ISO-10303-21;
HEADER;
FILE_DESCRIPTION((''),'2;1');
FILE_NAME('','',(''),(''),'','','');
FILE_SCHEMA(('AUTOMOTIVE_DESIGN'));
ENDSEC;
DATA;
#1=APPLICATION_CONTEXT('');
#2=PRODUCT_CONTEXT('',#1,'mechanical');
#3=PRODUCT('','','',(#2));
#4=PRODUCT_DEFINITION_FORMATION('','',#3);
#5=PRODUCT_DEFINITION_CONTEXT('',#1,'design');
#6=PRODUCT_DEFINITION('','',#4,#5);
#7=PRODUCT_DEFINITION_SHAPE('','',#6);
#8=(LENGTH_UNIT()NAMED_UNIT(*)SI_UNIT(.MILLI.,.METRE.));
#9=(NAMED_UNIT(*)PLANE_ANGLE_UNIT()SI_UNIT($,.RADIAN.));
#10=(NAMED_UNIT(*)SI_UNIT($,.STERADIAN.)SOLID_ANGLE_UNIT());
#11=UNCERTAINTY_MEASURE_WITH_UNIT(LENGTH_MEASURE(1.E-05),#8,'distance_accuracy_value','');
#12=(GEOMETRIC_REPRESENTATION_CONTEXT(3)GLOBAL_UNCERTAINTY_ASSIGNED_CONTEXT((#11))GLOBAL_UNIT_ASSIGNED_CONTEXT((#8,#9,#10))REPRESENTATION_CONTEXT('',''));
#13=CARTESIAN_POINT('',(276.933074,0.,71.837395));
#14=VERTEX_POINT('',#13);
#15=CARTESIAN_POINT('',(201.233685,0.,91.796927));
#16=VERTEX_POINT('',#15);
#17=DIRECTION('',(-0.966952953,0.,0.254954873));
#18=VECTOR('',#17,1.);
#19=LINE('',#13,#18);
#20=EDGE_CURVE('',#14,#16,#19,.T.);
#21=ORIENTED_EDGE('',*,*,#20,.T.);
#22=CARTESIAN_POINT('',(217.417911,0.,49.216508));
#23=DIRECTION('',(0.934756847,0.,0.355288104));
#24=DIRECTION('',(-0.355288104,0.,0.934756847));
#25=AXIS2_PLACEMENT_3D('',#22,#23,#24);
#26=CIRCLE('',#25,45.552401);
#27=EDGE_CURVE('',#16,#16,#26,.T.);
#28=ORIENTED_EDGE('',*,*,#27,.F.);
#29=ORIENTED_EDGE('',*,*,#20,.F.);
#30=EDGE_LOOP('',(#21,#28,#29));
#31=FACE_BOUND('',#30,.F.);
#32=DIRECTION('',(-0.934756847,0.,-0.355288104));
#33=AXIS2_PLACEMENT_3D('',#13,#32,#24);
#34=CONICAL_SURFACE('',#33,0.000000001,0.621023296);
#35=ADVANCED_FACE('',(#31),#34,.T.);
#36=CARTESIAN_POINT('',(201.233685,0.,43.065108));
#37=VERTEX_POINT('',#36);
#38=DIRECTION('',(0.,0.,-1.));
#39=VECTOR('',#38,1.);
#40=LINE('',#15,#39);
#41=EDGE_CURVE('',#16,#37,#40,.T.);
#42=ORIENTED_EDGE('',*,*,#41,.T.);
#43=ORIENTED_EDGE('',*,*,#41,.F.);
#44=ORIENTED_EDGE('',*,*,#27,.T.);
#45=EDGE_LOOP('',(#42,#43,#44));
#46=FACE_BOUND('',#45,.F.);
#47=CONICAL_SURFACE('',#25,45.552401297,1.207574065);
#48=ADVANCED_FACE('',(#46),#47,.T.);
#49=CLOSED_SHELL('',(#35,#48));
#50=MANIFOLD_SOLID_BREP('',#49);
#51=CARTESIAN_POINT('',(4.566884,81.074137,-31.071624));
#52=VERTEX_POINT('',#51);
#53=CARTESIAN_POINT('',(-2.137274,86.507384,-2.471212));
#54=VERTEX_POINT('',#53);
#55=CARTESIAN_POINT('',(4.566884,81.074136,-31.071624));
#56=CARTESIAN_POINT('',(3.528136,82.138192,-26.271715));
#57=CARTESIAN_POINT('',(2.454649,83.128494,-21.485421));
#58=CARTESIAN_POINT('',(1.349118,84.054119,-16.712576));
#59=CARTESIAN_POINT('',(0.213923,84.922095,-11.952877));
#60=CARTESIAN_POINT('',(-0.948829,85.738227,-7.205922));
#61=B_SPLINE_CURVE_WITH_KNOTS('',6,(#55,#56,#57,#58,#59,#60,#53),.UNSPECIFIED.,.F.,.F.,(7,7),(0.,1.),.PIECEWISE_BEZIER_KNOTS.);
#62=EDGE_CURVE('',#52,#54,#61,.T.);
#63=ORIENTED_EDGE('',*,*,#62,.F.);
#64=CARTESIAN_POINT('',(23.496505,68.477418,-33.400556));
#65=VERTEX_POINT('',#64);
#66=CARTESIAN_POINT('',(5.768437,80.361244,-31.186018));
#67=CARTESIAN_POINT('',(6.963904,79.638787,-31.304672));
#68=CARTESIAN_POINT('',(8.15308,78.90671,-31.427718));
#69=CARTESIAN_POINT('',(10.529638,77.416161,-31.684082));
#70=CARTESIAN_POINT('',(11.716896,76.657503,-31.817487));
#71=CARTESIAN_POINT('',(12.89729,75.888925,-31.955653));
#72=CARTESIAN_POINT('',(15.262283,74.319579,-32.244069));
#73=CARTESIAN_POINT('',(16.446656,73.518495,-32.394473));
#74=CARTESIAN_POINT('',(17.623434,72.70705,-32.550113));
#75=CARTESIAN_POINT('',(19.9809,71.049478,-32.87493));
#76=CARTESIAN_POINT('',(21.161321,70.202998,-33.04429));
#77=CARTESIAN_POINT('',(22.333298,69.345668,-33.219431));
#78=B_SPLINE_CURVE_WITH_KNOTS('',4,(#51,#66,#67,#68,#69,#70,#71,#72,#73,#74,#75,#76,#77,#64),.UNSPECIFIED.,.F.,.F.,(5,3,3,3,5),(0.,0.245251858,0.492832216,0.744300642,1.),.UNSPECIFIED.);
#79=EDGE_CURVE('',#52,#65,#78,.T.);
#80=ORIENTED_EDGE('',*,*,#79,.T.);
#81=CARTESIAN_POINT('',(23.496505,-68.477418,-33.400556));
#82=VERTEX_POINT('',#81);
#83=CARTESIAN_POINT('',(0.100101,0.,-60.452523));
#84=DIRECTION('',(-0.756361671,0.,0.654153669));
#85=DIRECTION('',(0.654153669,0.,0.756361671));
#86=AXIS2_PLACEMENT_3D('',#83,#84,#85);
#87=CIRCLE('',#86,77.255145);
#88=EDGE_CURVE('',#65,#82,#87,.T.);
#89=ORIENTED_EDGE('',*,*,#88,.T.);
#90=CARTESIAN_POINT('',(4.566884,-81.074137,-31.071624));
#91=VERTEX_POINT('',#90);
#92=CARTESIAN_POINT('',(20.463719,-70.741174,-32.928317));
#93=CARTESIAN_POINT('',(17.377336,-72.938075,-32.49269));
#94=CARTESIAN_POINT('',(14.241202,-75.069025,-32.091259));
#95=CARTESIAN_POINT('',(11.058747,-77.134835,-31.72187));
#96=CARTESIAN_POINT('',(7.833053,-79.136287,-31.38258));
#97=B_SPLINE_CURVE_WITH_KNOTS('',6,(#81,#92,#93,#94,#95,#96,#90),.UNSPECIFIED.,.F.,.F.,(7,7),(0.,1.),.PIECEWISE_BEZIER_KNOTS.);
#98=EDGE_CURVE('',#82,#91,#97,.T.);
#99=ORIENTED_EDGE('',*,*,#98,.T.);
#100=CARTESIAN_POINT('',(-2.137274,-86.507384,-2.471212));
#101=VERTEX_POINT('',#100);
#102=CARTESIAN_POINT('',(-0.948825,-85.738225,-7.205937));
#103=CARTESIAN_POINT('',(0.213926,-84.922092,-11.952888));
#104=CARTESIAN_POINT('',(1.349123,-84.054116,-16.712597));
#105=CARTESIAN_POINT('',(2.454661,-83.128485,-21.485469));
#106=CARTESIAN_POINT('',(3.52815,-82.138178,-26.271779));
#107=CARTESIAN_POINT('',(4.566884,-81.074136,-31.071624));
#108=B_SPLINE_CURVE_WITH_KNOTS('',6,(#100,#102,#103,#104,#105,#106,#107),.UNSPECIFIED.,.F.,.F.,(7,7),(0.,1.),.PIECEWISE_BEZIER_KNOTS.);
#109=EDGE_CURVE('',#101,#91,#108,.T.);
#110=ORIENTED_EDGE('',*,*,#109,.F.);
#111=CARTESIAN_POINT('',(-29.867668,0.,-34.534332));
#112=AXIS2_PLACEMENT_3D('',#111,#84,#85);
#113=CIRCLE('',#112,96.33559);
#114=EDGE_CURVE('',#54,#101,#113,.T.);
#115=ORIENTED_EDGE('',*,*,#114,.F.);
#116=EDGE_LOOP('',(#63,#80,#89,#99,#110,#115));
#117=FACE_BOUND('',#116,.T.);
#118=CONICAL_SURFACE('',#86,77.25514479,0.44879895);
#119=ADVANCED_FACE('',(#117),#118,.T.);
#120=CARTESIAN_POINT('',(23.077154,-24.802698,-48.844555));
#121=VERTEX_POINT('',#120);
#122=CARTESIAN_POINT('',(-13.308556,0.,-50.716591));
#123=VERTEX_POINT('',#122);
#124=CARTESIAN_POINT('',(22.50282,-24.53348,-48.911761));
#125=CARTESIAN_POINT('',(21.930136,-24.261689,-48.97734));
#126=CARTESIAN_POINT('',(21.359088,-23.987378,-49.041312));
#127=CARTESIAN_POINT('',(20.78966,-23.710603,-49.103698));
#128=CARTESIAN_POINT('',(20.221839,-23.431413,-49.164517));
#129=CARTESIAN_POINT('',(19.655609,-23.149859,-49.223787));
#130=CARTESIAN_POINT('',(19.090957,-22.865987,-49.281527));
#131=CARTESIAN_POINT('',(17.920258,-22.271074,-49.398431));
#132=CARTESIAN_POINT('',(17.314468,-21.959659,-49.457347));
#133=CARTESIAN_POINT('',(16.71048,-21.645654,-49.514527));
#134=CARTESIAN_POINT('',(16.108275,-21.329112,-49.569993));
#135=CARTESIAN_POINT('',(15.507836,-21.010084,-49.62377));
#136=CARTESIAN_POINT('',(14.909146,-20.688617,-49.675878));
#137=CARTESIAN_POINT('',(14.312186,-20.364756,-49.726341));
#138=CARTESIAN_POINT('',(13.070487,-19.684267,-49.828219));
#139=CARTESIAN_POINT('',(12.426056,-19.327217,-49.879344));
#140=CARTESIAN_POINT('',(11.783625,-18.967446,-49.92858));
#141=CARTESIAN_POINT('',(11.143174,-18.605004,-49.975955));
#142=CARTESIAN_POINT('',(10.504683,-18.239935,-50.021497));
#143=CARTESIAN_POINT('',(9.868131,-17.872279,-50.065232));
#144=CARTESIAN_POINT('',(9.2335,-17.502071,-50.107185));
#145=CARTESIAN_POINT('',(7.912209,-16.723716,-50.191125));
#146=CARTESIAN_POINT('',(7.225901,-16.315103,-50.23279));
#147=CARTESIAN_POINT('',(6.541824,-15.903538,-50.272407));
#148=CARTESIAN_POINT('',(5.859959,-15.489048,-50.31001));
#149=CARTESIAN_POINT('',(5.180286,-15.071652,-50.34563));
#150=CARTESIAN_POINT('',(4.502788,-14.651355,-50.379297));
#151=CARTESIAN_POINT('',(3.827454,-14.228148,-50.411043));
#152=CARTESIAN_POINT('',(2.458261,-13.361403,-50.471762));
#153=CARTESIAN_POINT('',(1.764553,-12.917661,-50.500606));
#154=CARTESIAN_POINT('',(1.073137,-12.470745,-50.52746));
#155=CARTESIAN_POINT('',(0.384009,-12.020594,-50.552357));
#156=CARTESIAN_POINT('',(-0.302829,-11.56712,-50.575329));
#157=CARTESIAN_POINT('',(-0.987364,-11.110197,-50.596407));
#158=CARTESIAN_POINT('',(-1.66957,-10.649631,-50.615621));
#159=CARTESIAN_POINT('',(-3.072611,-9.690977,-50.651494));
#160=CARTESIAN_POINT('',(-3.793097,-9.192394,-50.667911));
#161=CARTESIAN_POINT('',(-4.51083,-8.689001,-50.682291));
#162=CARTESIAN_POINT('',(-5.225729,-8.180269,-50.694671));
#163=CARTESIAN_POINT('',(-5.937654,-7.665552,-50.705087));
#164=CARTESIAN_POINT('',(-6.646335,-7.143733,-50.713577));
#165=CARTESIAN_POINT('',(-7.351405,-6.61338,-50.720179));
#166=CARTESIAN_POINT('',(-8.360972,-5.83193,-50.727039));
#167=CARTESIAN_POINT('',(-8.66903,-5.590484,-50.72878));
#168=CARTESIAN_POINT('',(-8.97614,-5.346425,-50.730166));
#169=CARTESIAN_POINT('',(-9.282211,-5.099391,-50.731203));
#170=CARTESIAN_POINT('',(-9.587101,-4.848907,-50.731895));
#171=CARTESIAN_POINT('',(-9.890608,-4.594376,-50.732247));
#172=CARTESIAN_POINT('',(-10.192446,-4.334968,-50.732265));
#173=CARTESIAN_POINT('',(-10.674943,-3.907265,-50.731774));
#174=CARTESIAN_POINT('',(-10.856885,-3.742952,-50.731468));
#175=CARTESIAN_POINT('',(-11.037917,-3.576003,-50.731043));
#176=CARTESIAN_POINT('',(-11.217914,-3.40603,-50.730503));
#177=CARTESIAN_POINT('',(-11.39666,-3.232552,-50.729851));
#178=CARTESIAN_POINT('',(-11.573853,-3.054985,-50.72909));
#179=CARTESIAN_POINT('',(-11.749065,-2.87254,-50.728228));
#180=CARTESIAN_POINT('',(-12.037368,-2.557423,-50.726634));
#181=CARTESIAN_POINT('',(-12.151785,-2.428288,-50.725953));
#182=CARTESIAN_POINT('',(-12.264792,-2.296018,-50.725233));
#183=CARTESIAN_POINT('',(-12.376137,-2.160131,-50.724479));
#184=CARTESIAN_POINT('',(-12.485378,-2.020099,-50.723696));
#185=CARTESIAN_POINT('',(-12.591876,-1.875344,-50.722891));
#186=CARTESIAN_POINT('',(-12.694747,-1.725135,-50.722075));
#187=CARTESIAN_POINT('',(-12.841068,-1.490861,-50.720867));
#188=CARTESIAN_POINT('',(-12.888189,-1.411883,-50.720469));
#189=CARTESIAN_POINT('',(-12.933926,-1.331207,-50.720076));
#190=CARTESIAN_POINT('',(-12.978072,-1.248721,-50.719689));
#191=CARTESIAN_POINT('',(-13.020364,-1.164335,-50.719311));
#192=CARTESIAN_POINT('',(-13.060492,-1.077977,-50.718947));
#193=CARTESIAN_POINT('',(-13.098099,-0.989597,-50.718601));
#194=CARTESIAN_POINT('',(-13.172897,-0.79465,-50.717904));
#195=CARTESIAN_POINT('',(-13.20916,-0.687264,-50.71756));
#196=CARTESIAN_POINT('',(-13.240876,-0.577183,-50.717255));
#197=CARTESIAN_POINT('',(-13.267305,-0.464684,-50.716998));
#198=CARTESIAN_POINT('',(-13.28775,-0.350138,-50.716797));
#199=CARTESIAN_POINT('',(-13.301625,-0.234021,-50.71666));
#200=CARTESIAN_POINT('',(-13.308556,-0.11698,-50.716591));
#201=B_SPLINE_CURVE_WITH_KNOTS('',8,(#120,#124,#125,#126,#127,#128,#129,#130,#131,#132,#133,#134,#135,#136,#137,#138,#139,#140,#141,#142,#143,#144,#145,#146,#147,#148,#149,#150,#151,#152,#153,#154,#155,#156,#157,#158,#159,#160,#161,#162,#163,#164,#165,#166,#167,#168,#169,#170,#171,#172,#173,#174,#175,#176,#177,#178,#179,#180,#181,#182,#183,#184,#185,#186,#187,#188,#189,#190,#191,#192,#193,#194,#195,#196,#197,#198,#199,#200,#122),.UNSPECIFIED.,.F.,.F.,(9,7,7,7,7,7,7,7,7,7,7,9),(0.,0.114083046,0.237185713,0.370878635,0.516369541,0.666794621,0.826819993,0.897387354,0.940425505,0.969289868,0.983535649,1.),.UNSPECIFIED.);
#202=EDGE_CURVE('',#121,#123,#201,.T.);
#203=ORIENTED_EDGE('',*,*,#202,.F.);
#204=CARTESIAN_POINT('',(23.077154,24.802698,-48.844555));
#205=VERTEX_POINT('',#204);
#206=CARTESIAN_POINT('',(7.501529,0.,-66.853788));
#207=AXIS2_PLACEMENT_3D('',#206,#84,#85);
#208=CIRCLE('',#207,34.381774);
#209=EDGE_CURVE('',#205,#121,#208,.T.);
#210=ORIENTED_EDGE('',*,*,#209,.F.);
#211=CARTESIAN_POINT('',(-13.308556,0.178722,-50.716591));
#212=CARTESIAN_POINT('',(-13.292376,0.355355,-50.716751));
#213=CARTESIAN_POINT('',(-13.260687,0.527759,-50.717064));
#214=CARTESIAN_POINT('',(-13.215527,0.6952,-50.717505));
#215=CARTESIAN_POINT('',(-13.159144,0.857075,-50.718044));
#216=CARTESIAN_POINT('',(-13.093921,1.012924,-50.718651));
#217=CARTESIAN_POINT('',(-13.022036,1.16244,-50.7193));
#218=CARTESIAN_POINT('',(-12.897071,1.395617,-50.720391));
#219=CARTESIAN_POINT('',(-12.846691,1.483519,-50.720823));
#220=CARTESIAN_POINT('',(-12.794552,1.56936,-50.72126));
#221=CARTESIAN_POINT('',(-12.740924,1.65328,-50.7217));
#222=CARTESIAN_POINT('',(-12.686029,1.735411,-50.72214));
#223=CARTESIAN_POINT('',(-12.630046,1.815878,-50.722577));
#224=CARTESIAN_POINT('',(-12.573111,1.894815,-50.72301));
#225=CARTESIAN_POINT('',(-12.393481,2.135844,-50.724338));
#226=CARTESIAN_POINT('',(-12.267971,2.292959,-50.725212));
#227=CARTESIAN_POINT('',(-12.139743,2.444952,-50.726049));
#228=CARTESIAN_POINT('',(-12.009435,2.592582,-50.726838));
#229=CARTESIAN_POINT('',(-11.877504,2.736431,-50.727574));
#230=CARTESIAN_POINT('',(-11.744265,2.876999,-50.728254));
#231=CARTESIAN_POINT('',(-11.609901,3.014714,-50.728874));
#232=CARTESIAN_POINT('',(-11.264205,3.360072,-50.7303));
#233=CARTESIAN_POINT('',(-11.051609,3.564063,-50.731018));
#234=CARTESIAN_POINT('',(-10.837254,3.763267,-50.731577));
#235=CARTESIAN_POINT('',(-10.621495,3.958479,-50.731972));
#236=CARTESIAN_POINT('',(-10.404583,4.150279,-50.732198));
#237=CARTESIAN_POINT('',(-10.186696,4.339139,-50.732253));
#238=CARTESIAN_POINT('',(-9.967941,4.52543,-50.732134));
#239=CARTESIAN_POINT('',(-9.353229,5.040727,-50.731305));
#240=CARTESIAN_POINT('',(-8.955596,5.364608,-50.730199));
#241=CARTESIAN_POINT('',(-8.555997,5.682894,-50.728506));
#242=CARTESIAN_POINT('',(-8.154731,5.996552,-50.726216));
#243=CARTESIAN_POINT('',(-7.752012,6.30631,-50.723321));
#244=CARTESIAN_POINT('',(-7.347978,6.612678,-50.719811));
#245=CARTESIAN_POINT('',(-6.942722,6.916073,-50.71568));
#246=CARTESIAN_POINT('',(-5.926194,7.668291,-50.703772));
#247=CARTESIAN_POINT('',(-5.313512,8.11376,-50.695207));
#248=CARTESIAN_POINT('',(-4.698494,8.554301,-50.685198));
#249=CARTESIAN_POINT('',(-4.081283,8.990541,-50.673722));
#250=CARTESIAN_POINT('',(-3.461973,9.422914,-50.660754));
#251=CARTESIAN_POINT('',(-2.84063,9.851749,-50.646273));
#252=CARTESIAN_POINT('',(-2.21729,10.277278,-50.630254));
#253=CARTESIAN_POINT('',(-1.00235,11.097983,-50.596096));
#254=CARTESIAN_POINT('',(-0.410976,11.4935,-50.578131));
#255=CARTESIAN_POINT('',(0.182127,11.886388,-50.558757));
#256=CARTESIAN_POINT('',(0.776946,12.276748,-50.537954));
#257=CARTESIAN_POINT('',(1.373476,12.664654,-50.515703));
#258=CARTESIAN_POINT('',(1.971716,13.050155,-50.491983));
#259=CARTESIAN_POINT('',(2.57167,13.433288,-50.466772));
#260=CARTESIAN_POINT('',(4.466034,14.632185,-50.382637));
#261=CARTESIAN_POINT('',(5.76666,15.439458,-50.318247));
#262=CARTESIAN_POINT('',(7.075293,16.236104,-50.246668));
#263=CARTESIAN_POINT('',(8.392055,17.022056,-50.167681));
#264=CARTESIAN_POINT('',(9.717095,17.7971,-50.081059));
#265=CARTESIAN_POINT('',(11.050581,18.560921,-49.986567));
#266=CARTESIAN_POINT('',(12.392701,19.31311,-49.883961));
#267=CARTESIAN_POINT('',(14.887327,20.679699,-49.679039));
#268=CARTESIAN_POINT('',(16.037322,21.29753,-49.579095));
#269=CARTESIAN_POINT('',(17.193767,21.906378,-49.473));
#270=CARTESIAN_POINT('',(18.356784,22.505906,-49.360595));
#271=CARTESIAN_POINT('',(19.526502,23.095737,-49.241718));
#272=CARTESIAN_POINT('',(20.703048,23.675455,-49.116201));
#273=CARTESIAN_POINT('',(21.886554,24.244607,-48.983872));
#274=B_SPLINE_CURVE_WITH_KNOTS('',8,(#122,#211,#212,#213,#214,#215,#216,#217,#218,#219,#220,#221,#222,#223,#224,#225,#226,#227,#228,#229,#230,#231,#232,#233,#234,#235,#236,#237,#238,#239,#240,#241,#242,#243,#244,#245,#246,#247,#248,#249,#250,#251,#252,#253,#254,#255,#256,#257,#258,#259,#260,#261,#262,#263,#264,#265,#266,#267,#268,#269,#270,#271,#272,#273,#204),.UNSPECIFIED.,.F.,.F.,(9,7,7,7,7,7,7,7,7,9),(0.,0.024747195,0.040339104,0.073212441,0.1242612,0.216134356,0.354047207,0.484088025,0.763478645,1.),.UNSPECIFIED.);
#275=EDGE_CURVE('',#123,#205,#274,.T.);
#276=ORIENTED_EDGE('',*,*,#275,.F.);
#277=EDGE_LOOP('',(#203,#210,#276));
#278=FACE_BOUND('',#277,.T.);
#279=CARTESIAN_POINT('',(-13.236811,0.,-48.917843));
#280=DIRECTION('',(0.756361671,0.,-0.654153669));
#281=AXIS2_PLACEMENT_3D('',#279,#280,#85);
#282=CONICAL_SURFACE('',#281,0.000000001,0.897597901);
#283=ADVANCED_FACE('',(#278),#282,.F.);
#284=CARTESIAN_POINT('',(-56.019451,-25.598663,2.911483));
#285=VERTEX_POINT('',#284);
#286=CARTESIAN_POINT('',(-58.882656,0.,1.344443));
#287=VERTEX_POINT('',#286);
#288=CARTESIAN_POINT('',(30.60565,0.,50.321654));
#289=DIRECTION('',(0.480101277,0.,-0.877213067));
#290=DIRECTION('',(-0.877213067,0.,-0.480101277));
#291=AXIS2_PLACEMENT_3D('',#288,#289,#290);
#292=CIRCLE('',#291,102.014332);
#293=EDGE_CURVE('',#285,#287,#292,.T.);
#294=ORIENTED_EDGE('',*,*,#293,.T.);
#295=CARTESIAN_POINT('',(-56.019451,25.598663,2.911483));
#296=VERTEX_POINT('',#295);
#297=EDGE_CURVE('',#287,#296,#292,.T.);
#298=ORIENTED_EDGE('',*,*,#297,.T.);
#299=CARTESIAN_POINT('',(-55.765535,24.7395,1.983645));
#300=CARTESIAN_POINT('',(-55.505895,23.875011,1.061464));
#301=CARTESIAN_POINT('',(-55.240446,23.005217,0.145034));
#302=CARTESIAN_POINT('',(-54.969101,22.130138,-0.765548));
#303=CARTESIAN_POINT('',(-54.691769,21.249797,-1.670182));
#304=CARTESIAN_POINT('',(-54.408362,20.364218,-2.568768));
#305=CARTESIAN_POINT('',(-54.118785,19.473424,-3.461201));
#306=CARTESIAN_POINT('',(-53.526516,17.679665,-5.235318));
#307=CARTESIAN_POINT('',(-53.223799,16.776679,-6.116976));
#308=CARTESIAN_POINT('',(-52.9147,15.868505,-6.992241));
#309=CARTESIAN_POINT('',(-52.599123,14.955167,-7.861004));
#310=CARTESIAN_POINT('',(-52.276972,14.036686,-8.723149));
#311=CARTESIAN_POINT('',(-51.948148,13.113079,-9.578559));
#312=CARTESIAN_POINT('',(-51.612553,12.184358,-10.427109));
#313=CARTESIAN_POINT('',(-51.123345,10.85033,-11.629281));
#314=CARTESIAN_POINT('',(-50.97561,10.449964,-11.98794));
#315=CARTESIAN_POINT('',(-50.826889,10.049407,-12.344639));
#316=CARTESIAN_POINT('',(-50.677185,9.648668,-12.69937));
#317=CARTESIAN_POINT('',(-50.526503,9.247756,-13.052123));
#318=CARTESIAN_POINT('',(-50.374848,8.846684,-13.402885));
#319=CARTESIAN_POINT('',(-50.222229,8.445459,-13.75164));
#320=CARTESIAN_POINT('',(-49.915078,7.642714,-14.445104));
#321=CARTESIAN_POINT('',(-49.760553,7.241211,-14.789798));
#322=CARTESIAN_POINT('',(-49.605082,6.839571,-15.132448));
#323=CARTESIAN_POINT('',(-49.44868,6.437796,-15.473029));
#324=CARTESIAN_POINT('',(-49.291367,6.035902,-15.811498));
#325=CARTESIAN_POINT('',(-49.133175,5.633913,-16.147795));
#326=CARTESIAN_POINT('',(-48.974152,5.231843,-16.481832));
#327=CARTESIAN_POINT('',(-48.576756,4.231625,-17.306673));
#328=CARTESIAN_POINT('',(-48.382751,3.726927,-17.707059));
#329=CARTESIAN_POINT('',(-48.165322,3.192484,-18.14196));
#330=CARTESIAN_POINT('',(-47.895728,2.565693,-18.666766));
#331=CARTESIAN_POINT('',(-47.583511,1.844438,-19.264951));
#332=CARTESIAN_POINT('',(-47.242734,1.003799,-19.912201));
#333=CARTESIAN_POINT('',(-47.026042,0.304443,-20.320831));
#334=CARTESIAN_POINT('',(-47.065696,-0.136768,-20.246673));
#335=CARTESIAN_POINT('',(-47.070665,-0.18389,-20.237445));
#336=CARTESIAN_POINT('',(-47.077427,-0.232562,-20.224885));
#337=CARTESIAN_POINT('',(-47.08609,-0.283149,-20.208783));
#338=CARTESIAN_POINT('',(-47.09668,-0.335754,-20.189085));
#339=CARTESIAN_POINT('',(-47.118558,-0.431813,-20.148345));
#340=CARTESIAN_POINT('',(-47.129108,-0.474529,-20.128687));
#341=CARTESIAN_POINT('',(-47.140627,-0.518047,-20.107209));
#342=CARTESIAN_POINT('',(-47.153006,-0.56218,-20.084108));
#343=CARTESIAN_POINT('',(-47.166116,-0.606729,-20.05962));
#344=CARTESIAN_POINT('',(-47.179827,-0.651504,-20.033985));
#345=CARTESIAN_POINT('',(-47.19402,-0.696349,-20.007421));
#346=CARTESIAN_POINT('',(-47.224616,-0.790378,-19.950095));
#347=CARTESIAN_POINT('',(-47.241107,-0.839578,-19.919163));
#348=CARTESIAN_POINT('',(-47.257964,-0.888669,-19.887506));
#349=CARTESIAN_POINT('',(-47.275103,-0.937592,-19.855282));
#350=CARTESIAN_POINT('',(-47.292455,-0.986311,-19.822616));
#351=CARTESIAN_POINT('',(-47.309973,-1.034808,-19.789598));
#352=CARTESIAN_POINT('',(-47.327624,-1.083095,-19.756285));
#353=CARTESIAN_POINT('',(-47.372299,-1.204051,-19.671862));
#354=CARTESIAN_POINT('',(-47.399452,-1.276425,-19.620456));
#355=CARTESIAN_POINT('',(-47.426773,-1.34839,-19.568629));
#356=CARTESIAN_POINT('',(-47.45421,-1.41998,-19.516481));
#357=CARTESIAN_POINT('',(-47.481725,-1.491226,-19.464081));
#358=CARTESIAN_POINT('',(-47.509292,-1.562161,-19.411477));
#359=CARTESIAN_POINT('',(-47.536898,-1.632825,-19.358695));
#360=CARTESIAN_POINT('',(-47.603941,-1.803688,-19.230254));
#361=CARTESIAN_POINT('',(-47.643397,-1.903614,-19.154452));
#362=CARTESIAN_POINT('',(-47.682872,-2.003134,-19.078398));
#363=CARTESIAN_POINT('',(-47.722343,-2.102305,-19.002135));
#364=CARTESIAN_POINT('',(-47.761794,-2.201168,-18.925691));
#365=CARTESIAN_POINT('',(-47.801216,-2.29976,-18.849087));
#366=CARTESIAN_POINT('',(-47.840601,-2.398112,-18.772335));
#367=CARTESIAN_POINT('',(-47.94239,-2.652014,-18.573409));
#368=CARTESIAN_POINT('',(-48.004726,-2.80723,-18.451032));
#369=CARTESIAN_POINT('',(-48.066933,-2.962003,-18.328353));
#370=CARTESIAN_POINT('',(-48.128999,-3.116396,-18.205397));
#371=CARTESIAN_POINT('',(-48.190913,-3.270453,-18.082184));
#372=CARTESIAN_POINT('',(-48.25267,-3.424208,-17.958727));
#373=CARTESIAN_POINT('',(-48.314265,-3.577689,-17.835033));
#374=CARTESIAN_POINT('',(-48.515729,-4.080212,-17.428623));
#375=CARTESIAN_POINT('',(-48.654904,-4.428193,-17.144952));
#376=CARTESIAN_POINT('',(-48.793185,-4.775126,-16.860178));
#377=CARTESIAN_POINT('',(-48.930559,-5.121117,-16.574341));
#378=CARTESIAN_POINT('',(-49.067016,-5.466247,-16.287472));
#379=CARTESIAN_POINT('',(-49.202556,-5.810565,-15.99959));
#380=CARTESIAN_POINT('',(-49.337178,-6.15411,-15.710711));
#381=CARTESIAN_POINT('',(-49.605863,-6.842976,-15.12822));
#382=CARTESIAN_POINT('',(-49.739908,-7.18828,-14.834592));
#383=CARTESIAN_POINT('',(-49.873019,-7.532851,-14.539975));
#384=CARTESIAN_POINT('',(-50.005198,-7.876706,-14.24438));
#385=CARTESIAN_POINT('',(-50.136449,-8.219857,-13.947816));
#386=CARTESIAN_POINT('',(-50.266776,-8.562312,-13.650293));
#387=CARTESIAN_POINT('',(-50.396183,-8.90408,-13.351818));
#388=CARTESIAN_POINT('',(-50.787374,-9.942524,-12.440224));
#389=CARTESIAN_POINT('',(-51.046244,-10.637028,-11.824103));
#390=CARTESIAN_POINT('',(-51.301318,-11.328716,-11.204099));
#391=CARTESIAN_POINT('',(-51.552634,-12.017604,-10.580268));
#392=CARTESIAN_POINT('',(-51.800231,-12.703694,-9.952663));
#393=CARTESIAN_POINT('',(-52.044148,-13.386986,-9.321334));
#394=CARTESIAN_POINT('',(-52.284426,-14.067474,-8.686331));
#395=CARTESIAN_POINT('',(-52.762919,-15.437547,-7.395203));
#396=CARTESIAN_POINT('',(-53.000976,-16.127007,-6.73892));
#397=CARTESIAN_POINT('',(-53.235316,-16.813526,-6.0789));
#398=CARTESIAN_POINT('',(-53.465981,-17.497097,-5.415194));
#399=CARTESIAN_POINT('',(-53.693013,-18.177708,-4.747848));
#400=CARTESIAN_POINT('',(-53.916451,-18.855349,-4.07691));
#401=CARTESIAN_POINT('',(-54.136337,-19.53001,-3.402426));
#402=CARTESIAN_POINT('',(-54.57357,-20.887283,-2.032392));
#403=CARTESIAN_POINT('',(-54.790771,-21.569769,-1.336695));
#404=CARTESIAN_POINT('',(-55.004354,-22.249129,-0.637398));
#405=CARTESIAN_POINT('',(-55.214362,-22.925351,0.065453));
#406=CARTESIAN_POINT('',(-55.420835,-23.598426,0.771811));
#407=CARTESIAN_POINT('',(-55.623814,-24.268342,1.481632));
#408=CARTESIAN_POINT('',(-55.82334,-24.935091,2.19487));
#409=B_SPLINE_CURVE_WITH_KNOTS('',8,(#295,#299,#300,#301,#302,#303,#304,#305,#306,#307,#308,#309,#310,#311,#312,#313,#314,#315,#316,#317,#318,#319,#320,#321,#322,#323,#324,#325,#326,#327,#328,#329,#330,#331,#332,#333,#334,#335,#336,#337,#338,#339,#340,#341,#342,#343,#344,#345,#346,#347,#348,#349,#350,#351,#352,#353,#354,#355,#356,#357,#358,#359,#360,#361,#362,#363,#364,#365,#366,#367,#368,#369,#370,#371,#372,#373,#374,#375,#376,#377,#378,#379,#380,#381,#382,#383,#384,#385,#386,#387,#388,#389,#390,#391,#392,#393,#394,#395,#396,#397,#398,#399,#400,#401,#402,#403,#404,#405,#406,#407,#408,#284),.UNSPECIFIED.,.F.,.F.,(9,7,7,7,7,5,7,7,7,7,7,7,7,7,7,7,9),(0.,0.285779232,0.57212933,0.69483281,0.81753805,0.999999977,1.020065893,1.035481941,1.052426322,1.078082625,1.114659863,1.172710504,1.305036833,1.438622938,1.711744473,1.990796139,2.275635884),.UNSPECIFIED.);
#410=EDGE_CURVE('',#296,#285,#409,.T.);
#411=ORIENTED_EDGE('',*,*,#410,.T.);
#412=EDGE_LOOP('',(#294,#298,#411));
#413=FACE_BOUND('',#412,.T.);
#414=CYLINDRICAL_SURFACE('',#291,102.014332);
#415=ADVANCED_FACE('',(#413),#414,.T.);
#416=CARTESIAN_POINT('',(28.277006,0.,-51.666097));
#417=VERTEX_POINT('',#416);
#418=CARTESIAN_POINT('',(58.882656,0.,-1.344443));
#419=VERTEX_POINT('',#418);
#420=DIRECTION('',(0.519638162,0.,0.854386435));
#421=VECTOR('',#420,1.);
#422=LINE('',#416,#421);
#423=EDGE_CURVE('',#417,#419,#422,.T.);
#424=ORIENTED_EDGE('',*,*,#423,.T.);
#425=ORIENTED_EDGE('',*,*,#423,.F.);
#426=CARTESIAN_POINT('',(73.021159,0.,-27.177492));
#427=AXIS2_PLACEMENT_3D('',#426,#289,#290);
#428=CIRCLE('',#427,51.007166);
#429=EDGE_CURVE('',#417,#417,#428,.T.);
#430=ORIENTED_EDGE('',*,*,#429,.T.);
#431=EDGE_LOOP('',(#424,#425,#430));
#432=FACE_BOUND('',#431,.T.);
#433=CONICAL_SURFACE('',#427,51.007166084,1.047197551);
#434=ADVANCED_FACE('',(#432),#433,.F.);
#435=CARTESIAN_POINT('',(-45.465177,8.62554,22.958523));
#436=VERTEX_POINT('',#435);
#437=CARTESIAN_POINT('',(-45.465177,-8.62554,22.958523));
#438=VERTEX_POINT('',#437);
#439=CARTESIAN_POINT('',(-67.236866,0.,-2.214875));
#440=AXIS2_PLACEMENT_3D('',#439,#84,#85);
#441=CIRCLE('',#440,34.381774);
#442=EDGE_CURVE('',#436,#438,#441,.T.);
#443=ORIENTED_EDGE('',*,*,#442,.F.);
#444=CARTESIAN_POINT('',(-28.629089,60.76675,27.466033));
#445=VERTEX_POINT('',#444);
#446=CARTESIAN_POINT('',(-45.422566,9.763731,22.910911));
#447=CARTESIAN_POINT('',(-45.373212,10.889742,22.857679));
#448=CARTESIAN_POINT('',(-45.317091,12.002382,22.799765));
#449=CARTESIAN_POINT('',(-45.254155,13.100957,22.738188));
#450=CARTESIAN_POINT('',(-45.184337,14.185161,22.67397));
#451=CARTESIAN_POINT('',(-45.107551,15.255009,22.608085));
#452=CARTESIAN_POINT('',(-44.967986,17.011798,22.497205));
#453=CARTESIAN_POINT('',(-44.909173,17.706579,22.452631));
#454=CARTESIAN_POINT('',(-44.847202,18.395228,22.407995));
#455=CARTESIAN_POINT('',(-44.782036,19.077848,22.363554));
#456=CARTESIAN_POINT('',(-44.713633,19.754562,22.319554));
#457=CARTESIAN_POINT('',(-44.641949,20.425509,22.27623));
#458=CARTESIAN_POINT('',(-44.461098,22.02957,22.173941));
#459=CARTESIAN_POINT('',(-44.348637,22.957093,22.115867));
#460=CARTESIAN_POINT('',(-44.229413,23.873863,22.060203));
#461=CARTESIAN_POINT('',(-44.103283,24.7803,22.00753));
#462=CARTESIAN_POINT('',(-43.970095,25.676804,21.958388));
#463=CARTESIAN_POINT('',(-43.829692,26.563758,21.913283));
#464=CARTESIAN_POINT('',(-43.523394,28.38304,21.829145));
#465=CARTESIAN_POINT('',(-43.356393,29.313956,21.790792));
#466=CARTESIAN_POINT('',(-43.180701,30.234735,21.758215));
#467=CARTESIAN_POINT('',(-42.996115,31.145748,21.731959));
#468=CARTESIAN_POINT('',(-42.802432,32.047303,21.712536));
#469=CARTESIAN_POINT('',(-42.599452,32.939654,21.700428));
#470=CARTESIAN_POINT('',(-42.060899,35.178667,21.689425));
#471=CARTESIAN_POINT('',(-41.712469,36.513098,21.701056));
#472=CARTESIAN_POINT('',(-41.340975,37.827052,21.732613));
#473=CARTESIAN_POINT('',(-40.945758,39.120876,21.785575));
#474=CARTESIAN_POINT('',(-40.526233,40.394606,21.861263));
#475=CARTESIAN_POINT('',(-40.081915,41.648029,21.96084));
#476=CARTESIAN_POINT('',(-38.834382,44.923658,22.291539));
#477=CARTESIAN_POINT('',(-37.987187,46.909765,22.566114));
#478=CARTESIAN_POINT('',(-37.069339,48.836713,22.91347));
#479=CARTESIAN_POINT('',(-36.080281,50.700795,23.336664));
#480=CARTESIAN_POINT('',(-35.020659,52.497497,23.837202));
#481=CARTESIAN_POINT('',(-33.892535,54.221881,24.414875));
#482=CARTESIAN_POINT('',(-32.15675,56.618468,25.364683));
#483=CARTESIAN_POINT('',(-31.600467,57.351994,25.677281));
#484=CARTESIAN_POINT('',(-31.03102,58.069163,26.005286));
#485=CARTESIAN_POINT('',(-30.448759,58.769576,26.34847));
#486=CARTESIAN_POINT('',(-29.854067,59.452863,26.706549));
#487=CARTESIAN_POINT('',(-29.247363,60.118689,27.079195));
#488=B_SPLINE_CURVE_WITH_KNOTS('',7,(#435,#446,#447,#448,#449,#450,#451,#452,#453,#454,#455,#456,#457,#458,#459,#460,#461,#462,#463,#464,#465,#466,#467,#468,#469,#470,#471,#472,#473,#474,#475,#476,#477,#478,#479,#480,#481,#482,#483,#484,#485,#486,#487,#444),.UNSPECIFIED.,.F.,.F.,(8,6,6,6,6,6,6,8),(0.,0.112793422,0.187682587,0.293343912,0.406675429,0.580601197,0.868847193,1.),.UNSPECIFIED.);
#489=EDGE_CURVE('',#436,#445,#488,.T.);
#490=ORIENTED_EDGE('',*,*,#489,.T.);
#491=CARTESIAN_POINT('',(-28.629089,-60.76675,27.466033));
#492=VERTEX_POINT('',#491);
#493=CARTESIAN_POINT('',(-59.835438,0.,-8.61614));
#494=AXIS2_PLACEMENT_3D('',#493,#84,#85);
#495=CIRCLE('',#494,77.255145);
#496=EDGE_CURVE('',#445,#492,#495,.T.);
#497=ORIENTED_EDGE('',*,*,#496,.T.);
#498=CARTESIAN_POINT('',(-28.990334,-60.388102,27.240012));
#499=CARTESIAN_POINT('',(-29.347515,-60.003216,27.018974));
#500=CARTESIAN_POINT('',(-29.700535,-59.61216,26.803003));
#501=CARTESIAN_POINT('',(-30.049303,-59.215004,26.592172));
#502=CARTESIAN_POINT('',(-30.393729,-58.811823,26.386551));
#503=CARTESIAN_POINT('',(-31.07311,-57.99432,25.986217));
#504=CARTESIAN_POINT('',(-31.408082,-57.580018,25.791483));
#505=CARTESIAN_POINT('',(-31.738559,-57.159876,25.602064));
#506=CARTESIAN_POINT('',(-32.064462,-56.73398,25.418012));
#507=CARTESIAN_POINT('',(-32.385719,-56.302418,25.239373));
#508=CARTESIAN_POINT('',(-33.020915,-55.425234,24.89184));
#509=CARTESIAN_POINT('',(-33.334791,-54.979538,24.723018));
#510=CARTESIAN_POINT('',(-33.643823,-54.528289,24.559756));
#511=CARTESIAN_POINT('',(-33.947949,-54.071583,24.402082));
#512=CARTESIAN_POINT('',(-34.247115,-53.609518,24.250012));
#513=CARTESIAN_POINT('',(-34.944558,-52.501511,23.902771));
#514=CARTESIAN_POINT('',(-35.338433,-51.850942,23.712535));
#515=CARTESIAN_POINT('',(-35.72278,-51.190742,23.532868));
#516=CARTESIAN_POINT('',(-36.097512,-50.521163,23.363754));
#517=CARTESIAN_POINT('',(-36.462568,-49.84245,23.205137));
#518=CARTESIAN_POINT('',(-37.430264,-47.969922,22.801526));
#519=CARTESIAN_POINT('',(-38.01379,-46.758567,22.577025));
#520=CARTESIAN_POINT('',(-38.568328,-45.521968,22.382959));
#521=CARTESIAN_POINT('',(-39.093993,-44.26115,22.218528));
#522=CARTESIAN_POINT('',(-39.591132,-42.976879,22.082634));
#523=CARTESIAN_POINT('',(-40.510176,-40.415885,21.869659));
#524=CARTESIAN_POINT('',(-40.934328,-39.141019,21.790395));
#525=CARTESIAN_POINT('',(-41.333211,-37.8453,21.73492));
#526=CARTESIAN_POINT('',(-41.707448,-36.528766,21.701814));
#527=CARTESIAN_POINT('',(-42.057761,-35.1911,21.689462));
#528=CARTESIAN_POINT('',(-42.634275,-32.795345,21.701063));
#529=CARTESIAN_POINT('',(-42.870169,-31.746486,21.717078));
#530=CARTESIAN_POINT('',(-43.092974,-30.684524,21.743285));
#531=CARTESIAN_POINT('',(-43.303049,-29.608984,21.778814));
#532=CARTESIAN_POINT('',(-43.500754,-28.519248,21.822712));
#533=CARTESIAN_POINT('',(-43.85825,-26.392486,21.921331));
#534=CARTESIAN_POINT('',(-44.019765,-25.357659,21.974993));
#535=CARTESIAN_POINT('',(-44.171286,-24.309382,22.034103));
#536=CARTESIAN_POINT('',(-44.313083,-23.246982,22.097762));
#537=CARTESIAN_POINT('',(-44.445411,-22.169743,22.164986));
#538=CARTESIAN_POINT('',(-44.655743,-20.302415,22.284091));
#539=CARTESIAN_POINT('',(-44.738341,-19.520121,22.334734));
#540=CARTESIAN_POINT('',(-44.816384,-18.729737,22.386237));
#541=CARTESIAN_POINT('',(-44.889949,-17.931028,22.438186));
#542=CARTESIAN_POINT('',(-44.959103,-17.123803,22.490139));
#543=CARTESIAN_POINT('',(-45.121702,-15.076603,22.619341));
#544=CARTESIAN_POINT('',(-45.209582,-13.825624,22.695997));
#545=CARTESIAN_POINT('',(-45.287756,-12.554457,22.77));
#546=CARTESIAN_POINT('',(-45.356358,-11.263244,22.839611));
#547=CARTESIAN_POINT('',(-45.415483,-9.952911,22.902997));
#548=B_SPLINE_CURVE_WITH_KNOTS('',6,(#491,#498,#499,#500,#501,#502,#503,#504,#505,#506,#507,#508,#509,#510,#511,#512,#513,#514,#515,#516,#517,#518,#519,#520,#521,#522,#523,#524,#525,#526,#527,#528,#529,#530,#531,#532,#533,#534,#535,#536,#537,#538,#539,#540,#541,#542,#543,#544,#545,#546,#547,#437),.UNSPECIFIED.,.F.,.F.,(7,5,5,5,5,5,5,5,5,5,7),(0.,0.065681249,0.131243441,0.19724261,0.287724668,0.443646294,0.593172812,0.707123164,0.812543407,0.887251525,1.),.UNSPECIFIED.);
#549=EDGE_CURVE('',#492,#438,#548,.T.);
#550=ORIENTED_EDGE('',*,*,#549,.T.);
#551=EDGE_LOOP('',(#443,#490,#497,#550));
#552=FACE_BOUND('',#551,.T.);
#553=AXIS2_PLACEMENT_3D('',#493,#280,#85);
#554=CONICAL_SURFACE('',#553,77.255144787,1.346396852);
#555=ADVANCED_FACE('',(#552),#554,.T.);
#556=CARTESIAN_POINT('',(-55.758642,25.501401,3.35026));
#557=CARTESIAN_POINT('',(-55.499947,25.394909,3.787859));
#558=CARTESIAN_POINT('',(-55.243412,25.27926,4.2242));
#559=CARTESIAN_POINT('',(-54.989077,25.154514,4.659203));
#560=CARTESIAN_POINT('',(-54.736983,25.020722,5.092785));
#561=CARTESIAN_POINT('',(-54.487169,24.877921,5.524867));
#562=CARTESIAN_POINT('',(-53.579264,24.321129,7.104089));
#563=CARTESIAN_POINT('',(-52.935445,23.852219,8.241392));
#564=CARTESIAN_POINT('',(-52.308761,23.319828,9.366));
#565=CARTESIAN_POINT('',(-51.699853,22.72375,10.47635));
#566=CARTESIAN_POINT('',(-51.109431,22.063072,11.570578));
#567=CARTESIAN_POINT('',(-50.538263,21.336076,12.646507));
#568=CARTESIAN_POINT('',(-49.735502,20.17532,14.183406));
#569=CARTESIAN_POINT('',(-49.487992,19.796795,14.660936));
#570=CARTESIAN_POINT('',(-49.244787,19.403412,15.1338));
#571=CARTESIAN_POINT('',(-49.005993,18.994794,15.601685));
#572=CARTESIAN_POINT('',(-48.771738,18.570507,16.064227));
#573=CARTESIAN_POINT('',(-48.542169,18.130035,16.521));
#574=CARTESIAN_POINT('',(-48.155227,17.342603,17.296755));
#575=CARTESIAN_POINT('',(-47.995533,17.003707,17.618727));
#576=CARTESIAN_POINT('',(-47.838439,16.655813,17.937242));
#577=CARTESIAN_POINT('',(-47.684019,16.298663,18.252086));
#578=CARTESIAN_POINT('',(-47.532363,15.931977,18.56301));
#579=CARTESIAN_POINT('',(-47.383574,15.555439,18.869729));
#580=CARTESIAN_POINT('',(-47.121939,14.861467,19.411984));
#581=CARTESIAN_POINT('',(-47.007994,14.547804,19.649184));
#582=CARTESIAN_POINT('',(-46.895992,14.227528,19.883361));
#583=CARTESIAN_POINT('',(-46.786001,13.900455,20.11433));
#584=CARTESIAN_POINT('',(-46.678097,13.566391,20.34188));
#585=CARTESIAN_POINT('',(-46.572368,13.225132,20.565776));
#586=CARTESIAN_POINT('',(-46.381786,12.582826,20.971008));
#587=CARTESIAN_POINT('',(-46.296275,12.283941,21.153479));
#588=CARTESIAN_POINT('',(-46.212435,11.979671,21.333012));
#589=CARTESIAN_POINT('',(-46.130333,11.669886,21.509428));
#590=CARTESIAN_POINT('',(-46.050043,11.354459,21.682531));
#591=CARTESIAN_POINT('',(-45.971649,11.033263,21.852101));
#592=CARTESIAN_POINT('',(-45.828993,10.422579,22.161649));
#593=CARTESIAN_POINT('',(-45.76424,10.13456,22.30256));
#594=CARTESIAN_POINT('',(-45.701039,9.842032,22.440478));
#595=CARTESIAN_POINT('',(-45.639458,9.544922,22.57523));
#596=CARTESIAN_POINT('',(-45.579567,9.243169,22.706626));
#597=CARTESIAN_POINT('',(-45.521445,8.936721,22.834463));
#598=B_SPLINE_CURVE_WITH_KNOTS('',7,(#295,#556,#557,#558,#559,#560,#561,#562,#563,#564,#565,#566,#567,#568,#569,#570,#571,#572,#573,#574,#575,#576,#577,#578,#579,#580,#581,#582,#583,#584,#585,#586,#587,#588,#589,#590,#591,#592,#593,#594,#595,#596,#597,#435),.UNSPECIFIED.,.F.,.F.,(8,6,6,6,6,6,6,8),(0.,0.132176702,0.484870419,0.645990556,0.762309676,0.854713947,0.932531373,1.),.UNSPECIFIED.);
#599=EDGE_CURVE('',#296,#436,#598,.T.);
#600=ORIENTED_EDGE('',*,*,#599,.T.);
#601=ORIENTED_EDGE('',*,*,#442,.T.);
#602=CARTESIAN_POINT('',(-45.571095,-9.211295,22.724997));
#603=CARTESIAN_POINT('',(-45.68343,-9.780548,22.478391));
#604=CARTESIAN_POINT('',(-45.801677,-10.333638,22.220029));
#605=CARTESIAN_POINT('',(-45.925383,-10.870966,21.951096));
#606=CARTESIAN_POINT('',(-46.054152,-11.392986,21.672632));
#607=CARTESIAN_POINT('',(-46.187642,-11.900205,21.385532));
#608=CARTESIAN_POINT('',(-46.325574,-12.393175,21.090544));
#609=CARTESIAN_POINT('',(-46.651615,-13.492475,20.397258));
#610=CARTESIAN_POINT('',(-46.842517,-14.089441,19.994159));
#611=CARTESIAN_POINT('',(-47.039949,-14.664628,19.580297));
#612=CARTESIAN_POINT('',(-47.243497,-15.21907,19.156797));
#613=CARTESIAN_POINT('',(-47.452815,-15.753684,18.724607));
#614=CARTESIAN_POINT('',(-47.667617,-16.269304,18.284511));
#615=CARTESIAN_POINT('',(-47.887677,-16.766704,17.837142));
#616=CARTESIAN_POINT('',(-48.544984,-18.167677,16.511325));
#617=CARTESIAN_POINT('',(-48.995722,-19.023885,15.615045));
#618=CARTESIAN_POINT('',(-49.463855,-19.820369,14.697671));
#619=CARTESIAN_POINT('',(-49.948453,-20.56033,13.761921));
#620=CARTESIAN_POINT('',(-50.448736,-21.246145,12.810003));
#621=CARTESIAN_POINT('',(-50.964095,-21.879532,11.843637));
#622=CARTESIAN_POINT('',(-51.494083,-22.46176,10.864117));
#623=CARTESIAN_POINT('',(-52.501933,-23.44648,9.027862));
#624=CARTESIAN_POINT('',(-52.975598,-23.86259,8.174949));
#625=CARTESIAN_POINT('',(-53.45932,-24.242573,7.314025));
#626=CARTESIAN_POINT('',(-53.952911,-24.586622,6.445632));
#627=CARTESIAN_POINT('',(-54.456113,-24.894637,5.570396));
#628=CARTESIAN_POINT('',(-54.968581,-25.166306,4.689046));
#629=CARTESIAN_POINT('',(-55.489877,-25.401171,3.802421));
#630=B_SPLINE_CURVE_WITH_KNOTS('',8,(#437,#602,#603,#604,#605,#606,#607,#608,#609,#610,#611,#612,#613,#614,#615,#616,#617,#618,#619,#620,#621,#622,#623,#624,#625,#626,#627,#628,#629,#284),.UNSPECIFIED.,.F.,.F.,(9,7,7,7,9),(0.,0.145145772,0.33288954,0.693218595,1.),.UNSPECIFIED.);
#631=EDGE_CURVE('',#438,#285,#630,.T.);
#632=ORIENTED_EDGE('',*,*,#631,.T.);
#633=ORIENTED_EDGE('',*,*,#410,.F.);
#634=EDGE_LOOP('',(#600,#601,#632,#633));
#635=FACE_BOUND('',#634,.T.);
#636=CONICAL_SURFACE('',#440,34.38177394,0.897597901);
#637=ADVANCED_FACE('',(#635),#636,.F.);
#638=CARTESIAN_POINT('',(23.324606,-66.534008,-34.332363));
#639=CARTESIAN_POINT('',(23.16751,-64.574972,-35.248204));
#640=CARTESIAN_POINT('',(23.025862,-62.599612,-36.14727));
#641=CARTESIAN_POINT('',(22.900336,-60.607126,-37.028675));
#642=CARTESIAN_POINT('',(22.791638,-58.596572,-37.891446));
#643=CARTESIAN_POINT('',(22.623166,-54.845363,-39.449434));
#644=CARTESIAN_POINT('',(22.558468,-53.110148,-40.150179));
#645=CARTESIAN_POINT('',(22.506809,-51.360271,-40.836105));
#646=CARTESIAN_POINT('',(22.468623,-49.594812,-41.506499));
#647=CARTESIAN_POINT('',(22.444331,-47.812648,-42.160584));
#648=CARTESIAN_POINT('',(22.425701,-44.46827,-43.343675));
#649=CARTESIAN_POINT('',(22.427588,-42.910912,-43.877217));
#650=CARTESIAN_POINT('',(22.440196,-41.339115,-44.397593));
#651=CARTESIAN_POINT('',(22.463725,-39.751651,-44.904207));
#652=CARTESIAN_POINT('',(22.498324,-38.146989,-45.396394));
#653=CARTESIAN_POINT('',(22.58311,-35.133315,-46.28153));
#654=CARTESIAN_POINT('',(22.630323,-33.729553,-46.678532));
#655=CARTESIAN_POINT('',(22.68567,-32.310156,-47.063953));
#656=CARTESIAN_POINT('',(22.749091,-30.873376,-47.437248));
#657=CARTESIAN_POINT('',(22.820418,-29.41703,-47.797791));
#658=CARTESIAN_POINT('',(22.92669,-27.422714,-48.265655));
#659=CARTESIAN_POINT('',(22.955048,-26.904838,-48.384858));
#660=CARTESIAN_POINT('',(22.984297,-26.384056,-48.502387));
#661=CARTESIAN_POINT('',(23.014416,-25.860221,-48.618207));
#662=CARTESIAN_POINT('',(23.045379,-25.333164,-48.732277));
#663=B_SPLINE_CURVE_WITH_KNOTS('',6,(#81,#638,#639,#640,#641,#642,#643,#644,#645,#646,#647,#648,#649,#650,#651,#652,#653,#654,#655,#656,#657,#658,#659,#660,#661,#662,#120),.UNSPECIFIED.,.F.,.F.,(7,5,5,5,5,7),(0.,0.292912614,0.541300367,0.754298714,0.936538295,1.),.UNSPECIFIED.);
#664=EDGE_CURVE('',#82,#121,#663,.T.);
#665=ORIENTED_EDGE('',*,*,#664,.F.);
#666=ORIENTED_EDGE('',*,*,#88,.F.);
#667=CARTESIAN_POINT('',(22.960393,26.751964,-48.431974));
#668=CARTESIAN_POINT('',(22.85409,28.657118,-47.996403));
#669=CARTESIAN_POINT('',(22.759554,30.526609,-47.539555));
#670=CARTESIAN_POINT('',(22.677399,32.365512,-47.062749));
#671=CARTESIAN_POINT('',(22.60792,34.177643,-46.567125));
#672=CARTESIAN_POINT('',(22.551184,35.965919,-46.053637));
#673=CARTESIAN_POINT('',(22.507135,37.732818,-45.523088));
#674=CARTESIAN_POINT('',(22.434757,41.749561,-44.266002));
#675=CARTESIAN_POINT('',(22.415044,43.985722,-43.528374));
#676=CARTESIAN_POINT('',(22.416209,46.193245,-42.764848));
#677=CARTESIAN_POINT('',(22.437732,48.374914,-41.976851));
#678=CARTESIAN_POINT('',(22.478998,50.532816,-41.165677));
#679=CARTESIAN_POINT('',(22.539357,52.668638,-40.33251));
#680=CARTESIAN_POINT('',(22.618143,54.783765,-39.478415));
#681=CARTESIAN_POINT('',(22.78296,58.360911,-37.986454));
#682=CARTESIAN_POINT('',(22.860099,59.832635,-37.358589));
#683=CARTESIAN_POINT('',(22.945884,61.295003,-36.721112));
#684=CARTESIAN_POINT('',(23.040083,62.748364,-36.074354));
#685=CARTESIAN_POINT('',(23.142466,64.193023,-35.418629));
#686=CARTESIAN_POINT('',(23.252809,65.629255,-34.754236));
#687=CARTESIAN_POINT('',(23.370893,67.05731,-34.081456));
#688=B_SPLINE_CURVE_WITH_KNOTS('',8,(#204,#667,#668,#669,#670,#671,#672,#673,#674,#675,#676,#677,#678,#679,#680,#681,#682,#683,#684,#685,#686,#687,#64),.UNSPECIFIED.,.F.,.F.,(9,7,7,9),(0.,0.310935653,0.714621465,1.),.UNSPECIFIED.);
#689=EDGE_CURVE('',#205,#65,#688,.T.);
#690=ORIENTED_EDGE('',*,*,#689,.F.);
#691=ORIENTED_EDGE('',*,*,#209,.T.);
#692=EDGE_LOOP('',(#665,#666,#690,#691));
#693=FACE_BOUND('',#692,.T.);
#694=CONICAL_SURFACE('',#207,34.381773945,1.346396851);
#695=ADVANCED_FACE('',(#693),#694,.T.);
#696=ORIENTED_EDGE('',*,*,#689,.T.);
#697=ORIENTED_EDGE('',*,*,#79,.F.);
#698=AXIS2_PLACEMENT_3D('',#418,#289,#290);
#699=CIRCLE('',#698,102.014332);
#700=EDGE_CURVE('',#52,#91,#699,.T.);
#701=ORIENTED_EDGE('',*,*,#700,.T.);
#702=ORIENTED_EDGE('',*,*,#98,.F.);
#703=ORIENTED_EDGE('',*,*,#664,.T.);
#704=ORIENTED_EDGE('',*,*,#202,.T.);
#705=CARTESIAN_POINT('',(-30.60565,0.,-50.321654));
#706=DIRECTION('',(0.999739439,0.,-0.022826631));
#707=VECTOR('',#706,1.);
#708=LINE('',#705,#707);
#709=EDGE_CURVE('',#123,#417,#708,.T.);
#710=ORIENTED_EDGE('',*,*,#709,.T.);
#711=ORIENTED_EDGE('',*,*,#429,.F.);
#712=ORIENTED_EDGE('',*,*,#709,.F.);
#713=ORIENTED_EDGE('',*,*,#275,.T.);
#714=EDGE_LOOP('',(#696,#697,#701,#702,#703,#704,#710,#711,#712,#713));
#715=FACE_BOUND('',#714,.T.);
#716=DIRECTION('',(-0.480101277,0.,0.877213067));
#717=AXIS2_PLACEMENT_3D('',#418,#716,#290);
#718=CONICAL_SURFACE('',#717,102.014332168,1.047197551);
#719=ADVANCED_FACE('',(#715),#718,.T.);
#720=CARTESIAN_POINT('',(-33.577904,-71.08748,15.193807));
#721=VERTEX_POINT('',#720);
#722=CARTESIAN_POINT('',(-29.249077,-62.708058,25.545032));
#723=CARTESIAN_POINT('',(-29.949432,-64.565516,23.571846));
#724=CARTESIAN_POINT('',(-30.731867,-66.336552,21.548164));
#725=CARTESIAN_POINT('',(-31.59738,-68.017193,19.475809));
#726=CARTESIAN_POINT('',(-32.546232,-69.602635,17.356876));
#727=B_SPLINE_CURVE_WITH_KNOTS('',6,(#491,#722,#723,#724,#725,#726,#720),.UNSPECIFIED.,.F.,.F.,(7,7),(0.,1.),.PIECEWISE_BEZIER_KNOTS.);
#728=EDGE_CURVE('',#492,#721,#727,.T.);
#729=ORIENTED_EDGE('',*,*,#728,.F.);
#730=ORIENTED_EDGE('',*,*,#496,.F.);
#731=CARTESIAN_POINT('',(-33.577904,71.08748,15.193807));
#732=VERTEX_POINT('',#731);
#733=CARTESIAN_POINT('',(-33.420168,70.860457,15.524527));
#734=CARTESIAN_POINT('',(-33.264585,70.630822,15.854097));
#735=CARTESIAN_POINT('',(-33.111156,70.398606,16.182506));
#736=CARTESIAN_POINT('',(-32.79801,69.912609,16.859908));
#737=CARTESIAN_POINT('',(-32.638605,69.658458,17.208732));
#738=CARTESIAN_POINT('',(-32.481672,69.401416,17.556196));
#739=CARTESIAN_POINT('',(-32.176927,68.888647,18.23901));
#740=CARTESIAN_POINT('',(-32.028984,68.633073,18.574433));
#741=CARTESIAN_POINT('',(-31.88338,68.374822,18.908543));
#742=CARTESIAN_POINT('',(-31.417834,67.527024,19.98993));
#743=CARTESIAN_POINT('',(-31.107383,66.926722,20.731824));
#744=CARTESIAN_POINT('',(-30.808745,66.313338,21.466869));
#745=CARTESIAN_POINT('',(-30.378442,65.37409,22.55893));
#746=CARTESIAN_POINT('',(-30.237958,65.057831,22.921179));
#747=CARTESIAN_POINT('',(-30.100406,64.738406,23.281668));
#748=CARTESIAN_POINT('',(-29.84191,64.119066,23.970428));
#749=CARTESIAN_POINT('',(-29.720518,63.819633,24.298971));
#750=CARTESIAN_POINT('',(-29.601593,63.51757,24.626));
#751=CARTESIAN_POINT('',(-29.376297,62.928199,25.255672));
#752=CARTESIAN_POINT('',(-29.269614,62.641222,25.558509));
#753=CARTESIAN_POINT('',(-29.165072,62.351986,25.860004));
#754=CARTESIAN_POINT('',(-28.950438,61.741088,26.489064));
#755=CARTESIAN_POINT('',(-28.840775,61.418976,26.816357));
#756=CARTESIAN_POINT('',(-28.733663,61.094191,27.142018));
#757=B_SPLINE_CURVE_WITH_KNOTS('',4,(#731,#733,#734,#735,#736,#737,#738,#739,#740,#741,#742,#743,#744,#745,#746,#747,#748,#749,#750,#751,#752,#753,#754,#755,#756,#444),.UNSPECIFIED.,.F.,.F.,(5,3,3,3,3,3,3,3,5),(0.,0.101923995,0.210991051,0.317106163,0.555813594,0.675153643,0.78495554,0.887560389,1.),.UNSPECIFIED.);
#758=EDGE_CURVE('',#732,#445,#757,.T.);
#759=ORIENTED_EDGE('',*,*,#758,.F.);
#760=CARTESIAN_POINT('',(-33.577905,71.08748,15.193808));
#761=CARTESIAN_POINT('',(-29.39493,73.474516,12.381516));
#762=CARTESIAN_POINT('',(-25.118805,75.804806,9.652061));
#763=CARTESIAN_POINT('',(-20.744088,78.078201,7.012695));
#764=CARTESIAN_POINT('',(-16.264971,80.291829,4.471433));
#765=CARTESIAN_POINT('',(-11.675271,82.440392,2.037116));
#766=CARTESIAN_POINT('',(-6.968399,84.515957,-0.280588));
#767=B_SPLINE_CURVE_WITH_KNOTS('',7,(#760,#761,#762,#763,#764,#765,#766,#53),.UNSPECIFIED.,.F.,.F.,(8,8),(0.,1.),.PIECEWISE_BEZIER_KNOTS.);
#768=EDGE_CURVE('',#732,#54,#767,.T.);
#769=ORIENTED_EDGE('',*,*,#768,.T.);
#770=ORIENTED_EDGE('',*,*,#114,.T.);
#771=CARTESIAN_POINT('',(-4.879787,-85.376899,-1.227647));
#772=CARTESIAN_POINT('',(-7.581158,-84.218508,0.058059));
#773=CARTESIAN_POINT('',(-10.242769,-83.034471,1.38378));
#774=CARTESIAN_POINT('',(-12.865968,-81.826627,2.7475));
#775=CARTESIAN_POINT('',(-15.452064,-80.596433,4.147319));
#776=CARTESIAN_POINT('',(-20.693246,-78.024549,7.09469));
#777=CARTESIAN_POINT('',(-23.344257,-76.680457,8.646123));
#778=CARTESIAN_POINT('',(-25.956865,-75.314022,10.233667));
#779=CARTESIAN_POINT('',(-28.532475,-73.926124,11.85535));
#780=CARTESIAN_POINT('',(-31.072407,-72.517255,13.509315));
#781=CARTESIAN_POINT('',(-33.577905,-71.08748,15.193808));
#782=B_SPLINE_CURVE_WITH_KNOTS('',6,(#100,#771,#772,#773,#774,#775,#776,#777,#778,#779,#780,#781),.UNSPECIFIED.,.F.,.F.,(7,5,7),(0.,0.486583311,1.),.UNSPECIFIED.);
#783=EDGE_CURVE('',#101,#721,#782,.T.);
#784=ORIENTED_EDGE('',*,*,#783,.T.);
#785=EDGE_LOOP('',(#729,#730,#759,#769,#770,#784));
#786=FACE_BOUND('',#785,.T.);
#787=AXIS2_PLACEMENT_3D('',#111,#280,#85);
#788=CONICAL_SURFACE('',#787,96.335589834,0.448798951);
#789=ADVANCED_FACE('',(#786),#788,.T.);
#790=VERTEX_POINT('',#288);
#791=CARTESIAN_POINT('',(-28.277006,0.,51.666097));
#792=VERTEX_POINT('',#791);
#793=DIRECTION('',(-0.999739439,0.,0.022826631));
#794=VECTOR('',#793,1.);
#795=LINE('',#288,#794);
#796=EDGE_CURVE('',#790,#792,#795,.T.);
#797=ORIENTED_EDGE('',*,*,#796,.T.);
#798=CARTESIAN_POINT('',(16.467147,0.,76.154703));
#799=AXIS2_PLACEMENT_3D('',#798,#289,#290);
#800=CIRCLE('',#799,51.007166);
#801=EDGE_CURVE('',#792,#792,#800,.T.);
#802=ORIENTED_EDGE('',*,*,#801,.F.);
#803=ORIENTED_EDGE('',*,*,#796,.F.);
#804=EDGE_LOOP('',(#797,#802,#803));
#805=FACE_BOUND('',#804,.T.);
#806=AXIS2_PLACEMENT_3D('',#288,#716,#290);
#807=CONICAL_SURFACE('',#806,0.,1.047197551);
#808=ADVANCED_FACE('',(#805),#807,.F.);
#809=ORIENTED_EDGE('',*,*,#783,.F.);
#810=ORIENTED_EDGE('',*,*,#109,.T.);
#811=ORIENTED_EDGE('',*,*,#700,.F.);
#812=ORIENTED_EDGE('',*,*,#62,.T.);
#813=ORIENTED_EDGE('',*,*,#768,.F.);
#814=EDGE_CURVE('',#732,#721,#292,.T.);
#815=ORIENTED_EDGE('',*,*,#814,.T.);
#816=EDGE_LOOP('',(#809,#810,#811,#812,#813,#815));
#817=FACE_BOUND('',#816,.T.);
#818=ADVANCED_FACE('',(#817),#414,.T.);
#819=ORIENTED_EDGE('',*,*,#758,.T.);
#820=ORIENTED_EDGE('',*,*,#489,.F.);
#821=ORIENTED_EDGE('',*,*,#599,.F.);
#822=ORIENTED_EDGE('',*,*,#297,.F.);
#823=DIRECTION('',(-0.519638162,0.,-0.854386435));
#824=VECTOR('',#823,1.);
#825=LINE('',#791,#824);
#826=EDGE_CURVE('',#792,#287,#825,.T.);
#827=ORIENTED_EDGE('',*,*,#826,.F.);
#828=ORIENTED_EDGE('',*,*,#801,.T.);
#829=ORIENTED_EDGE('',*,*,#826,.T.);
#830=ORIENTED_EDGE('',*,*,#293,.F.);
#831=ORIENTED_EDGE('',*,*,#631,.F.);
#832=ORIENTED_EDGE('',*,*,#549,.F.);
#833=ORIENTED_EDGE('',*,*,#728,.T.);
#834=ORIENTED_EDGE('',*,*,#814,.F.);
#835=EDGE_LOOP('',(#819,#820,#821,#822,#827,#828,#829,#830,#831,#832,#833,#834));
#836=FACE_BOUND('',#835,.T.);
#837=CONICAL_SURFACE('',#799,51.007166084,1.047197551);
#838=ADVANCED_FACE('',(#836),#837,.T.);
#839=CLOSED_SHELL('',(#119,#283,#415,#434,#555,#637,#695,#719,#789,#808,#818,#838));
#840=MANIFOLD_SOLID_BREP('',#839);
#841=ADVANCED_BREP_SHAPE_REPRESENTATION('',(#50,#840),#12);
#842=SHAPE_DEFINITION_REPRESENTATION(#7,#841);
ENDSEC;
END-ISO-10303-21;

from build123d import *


with BuildPart() as f1:
    # F0 (on Front) → F1 (revolve)
    with BuildSketch(Plane.XZ):
        Polygon((58.8826555872, -1.3444429754), (30.6056495642, 50.3216540931), (-28.277006023, 51.6660970685), (-58.8826555872, 1.3444429754), (-30.6056495642, -50.3216540931), (28.277006023, -51.6660970685), align=None)
    revolve(axis=Axis((44.7441525757, 0, 24.4886055589), (0.4801012767, 0, -0.8772130665)))

    # F2 (on Front) → F3 (revolve)
    with BuildSketch(Plane.XZ):
        Polygon((50.6368376685, -2.0196924611), (33.1506110357, 38.3302162095), (-9.2987018562, 49.8166902804), (-44.7459025915, 23.7901804949), (-46.4985260253, -20.1508204345), (-13.2368109649, -48.9178425749), (29.9924927337, -40.8487315143), align=None)
    revolve(axis=Axis((-29.8676684951, 0, -34.5343315047), (-0.7563616711, 0, 0.6541536689)))


with BuildPart() as f5:
    # F4 (on Front) → F5 (revolve)
    with BuildSketch(Plane.XZ):
        Polygon((276.9330739975, 71.8373954296), (201.2336850166, 91.7969271541), (201.2336850166, 43.0651083589), align=None)
    revolve(axis=Axis((239.0833795071, 0, 57.4512518942), (0.9347568472, 0, 0.3552881035)))


solid = Compound([f1.part, f5.part])
